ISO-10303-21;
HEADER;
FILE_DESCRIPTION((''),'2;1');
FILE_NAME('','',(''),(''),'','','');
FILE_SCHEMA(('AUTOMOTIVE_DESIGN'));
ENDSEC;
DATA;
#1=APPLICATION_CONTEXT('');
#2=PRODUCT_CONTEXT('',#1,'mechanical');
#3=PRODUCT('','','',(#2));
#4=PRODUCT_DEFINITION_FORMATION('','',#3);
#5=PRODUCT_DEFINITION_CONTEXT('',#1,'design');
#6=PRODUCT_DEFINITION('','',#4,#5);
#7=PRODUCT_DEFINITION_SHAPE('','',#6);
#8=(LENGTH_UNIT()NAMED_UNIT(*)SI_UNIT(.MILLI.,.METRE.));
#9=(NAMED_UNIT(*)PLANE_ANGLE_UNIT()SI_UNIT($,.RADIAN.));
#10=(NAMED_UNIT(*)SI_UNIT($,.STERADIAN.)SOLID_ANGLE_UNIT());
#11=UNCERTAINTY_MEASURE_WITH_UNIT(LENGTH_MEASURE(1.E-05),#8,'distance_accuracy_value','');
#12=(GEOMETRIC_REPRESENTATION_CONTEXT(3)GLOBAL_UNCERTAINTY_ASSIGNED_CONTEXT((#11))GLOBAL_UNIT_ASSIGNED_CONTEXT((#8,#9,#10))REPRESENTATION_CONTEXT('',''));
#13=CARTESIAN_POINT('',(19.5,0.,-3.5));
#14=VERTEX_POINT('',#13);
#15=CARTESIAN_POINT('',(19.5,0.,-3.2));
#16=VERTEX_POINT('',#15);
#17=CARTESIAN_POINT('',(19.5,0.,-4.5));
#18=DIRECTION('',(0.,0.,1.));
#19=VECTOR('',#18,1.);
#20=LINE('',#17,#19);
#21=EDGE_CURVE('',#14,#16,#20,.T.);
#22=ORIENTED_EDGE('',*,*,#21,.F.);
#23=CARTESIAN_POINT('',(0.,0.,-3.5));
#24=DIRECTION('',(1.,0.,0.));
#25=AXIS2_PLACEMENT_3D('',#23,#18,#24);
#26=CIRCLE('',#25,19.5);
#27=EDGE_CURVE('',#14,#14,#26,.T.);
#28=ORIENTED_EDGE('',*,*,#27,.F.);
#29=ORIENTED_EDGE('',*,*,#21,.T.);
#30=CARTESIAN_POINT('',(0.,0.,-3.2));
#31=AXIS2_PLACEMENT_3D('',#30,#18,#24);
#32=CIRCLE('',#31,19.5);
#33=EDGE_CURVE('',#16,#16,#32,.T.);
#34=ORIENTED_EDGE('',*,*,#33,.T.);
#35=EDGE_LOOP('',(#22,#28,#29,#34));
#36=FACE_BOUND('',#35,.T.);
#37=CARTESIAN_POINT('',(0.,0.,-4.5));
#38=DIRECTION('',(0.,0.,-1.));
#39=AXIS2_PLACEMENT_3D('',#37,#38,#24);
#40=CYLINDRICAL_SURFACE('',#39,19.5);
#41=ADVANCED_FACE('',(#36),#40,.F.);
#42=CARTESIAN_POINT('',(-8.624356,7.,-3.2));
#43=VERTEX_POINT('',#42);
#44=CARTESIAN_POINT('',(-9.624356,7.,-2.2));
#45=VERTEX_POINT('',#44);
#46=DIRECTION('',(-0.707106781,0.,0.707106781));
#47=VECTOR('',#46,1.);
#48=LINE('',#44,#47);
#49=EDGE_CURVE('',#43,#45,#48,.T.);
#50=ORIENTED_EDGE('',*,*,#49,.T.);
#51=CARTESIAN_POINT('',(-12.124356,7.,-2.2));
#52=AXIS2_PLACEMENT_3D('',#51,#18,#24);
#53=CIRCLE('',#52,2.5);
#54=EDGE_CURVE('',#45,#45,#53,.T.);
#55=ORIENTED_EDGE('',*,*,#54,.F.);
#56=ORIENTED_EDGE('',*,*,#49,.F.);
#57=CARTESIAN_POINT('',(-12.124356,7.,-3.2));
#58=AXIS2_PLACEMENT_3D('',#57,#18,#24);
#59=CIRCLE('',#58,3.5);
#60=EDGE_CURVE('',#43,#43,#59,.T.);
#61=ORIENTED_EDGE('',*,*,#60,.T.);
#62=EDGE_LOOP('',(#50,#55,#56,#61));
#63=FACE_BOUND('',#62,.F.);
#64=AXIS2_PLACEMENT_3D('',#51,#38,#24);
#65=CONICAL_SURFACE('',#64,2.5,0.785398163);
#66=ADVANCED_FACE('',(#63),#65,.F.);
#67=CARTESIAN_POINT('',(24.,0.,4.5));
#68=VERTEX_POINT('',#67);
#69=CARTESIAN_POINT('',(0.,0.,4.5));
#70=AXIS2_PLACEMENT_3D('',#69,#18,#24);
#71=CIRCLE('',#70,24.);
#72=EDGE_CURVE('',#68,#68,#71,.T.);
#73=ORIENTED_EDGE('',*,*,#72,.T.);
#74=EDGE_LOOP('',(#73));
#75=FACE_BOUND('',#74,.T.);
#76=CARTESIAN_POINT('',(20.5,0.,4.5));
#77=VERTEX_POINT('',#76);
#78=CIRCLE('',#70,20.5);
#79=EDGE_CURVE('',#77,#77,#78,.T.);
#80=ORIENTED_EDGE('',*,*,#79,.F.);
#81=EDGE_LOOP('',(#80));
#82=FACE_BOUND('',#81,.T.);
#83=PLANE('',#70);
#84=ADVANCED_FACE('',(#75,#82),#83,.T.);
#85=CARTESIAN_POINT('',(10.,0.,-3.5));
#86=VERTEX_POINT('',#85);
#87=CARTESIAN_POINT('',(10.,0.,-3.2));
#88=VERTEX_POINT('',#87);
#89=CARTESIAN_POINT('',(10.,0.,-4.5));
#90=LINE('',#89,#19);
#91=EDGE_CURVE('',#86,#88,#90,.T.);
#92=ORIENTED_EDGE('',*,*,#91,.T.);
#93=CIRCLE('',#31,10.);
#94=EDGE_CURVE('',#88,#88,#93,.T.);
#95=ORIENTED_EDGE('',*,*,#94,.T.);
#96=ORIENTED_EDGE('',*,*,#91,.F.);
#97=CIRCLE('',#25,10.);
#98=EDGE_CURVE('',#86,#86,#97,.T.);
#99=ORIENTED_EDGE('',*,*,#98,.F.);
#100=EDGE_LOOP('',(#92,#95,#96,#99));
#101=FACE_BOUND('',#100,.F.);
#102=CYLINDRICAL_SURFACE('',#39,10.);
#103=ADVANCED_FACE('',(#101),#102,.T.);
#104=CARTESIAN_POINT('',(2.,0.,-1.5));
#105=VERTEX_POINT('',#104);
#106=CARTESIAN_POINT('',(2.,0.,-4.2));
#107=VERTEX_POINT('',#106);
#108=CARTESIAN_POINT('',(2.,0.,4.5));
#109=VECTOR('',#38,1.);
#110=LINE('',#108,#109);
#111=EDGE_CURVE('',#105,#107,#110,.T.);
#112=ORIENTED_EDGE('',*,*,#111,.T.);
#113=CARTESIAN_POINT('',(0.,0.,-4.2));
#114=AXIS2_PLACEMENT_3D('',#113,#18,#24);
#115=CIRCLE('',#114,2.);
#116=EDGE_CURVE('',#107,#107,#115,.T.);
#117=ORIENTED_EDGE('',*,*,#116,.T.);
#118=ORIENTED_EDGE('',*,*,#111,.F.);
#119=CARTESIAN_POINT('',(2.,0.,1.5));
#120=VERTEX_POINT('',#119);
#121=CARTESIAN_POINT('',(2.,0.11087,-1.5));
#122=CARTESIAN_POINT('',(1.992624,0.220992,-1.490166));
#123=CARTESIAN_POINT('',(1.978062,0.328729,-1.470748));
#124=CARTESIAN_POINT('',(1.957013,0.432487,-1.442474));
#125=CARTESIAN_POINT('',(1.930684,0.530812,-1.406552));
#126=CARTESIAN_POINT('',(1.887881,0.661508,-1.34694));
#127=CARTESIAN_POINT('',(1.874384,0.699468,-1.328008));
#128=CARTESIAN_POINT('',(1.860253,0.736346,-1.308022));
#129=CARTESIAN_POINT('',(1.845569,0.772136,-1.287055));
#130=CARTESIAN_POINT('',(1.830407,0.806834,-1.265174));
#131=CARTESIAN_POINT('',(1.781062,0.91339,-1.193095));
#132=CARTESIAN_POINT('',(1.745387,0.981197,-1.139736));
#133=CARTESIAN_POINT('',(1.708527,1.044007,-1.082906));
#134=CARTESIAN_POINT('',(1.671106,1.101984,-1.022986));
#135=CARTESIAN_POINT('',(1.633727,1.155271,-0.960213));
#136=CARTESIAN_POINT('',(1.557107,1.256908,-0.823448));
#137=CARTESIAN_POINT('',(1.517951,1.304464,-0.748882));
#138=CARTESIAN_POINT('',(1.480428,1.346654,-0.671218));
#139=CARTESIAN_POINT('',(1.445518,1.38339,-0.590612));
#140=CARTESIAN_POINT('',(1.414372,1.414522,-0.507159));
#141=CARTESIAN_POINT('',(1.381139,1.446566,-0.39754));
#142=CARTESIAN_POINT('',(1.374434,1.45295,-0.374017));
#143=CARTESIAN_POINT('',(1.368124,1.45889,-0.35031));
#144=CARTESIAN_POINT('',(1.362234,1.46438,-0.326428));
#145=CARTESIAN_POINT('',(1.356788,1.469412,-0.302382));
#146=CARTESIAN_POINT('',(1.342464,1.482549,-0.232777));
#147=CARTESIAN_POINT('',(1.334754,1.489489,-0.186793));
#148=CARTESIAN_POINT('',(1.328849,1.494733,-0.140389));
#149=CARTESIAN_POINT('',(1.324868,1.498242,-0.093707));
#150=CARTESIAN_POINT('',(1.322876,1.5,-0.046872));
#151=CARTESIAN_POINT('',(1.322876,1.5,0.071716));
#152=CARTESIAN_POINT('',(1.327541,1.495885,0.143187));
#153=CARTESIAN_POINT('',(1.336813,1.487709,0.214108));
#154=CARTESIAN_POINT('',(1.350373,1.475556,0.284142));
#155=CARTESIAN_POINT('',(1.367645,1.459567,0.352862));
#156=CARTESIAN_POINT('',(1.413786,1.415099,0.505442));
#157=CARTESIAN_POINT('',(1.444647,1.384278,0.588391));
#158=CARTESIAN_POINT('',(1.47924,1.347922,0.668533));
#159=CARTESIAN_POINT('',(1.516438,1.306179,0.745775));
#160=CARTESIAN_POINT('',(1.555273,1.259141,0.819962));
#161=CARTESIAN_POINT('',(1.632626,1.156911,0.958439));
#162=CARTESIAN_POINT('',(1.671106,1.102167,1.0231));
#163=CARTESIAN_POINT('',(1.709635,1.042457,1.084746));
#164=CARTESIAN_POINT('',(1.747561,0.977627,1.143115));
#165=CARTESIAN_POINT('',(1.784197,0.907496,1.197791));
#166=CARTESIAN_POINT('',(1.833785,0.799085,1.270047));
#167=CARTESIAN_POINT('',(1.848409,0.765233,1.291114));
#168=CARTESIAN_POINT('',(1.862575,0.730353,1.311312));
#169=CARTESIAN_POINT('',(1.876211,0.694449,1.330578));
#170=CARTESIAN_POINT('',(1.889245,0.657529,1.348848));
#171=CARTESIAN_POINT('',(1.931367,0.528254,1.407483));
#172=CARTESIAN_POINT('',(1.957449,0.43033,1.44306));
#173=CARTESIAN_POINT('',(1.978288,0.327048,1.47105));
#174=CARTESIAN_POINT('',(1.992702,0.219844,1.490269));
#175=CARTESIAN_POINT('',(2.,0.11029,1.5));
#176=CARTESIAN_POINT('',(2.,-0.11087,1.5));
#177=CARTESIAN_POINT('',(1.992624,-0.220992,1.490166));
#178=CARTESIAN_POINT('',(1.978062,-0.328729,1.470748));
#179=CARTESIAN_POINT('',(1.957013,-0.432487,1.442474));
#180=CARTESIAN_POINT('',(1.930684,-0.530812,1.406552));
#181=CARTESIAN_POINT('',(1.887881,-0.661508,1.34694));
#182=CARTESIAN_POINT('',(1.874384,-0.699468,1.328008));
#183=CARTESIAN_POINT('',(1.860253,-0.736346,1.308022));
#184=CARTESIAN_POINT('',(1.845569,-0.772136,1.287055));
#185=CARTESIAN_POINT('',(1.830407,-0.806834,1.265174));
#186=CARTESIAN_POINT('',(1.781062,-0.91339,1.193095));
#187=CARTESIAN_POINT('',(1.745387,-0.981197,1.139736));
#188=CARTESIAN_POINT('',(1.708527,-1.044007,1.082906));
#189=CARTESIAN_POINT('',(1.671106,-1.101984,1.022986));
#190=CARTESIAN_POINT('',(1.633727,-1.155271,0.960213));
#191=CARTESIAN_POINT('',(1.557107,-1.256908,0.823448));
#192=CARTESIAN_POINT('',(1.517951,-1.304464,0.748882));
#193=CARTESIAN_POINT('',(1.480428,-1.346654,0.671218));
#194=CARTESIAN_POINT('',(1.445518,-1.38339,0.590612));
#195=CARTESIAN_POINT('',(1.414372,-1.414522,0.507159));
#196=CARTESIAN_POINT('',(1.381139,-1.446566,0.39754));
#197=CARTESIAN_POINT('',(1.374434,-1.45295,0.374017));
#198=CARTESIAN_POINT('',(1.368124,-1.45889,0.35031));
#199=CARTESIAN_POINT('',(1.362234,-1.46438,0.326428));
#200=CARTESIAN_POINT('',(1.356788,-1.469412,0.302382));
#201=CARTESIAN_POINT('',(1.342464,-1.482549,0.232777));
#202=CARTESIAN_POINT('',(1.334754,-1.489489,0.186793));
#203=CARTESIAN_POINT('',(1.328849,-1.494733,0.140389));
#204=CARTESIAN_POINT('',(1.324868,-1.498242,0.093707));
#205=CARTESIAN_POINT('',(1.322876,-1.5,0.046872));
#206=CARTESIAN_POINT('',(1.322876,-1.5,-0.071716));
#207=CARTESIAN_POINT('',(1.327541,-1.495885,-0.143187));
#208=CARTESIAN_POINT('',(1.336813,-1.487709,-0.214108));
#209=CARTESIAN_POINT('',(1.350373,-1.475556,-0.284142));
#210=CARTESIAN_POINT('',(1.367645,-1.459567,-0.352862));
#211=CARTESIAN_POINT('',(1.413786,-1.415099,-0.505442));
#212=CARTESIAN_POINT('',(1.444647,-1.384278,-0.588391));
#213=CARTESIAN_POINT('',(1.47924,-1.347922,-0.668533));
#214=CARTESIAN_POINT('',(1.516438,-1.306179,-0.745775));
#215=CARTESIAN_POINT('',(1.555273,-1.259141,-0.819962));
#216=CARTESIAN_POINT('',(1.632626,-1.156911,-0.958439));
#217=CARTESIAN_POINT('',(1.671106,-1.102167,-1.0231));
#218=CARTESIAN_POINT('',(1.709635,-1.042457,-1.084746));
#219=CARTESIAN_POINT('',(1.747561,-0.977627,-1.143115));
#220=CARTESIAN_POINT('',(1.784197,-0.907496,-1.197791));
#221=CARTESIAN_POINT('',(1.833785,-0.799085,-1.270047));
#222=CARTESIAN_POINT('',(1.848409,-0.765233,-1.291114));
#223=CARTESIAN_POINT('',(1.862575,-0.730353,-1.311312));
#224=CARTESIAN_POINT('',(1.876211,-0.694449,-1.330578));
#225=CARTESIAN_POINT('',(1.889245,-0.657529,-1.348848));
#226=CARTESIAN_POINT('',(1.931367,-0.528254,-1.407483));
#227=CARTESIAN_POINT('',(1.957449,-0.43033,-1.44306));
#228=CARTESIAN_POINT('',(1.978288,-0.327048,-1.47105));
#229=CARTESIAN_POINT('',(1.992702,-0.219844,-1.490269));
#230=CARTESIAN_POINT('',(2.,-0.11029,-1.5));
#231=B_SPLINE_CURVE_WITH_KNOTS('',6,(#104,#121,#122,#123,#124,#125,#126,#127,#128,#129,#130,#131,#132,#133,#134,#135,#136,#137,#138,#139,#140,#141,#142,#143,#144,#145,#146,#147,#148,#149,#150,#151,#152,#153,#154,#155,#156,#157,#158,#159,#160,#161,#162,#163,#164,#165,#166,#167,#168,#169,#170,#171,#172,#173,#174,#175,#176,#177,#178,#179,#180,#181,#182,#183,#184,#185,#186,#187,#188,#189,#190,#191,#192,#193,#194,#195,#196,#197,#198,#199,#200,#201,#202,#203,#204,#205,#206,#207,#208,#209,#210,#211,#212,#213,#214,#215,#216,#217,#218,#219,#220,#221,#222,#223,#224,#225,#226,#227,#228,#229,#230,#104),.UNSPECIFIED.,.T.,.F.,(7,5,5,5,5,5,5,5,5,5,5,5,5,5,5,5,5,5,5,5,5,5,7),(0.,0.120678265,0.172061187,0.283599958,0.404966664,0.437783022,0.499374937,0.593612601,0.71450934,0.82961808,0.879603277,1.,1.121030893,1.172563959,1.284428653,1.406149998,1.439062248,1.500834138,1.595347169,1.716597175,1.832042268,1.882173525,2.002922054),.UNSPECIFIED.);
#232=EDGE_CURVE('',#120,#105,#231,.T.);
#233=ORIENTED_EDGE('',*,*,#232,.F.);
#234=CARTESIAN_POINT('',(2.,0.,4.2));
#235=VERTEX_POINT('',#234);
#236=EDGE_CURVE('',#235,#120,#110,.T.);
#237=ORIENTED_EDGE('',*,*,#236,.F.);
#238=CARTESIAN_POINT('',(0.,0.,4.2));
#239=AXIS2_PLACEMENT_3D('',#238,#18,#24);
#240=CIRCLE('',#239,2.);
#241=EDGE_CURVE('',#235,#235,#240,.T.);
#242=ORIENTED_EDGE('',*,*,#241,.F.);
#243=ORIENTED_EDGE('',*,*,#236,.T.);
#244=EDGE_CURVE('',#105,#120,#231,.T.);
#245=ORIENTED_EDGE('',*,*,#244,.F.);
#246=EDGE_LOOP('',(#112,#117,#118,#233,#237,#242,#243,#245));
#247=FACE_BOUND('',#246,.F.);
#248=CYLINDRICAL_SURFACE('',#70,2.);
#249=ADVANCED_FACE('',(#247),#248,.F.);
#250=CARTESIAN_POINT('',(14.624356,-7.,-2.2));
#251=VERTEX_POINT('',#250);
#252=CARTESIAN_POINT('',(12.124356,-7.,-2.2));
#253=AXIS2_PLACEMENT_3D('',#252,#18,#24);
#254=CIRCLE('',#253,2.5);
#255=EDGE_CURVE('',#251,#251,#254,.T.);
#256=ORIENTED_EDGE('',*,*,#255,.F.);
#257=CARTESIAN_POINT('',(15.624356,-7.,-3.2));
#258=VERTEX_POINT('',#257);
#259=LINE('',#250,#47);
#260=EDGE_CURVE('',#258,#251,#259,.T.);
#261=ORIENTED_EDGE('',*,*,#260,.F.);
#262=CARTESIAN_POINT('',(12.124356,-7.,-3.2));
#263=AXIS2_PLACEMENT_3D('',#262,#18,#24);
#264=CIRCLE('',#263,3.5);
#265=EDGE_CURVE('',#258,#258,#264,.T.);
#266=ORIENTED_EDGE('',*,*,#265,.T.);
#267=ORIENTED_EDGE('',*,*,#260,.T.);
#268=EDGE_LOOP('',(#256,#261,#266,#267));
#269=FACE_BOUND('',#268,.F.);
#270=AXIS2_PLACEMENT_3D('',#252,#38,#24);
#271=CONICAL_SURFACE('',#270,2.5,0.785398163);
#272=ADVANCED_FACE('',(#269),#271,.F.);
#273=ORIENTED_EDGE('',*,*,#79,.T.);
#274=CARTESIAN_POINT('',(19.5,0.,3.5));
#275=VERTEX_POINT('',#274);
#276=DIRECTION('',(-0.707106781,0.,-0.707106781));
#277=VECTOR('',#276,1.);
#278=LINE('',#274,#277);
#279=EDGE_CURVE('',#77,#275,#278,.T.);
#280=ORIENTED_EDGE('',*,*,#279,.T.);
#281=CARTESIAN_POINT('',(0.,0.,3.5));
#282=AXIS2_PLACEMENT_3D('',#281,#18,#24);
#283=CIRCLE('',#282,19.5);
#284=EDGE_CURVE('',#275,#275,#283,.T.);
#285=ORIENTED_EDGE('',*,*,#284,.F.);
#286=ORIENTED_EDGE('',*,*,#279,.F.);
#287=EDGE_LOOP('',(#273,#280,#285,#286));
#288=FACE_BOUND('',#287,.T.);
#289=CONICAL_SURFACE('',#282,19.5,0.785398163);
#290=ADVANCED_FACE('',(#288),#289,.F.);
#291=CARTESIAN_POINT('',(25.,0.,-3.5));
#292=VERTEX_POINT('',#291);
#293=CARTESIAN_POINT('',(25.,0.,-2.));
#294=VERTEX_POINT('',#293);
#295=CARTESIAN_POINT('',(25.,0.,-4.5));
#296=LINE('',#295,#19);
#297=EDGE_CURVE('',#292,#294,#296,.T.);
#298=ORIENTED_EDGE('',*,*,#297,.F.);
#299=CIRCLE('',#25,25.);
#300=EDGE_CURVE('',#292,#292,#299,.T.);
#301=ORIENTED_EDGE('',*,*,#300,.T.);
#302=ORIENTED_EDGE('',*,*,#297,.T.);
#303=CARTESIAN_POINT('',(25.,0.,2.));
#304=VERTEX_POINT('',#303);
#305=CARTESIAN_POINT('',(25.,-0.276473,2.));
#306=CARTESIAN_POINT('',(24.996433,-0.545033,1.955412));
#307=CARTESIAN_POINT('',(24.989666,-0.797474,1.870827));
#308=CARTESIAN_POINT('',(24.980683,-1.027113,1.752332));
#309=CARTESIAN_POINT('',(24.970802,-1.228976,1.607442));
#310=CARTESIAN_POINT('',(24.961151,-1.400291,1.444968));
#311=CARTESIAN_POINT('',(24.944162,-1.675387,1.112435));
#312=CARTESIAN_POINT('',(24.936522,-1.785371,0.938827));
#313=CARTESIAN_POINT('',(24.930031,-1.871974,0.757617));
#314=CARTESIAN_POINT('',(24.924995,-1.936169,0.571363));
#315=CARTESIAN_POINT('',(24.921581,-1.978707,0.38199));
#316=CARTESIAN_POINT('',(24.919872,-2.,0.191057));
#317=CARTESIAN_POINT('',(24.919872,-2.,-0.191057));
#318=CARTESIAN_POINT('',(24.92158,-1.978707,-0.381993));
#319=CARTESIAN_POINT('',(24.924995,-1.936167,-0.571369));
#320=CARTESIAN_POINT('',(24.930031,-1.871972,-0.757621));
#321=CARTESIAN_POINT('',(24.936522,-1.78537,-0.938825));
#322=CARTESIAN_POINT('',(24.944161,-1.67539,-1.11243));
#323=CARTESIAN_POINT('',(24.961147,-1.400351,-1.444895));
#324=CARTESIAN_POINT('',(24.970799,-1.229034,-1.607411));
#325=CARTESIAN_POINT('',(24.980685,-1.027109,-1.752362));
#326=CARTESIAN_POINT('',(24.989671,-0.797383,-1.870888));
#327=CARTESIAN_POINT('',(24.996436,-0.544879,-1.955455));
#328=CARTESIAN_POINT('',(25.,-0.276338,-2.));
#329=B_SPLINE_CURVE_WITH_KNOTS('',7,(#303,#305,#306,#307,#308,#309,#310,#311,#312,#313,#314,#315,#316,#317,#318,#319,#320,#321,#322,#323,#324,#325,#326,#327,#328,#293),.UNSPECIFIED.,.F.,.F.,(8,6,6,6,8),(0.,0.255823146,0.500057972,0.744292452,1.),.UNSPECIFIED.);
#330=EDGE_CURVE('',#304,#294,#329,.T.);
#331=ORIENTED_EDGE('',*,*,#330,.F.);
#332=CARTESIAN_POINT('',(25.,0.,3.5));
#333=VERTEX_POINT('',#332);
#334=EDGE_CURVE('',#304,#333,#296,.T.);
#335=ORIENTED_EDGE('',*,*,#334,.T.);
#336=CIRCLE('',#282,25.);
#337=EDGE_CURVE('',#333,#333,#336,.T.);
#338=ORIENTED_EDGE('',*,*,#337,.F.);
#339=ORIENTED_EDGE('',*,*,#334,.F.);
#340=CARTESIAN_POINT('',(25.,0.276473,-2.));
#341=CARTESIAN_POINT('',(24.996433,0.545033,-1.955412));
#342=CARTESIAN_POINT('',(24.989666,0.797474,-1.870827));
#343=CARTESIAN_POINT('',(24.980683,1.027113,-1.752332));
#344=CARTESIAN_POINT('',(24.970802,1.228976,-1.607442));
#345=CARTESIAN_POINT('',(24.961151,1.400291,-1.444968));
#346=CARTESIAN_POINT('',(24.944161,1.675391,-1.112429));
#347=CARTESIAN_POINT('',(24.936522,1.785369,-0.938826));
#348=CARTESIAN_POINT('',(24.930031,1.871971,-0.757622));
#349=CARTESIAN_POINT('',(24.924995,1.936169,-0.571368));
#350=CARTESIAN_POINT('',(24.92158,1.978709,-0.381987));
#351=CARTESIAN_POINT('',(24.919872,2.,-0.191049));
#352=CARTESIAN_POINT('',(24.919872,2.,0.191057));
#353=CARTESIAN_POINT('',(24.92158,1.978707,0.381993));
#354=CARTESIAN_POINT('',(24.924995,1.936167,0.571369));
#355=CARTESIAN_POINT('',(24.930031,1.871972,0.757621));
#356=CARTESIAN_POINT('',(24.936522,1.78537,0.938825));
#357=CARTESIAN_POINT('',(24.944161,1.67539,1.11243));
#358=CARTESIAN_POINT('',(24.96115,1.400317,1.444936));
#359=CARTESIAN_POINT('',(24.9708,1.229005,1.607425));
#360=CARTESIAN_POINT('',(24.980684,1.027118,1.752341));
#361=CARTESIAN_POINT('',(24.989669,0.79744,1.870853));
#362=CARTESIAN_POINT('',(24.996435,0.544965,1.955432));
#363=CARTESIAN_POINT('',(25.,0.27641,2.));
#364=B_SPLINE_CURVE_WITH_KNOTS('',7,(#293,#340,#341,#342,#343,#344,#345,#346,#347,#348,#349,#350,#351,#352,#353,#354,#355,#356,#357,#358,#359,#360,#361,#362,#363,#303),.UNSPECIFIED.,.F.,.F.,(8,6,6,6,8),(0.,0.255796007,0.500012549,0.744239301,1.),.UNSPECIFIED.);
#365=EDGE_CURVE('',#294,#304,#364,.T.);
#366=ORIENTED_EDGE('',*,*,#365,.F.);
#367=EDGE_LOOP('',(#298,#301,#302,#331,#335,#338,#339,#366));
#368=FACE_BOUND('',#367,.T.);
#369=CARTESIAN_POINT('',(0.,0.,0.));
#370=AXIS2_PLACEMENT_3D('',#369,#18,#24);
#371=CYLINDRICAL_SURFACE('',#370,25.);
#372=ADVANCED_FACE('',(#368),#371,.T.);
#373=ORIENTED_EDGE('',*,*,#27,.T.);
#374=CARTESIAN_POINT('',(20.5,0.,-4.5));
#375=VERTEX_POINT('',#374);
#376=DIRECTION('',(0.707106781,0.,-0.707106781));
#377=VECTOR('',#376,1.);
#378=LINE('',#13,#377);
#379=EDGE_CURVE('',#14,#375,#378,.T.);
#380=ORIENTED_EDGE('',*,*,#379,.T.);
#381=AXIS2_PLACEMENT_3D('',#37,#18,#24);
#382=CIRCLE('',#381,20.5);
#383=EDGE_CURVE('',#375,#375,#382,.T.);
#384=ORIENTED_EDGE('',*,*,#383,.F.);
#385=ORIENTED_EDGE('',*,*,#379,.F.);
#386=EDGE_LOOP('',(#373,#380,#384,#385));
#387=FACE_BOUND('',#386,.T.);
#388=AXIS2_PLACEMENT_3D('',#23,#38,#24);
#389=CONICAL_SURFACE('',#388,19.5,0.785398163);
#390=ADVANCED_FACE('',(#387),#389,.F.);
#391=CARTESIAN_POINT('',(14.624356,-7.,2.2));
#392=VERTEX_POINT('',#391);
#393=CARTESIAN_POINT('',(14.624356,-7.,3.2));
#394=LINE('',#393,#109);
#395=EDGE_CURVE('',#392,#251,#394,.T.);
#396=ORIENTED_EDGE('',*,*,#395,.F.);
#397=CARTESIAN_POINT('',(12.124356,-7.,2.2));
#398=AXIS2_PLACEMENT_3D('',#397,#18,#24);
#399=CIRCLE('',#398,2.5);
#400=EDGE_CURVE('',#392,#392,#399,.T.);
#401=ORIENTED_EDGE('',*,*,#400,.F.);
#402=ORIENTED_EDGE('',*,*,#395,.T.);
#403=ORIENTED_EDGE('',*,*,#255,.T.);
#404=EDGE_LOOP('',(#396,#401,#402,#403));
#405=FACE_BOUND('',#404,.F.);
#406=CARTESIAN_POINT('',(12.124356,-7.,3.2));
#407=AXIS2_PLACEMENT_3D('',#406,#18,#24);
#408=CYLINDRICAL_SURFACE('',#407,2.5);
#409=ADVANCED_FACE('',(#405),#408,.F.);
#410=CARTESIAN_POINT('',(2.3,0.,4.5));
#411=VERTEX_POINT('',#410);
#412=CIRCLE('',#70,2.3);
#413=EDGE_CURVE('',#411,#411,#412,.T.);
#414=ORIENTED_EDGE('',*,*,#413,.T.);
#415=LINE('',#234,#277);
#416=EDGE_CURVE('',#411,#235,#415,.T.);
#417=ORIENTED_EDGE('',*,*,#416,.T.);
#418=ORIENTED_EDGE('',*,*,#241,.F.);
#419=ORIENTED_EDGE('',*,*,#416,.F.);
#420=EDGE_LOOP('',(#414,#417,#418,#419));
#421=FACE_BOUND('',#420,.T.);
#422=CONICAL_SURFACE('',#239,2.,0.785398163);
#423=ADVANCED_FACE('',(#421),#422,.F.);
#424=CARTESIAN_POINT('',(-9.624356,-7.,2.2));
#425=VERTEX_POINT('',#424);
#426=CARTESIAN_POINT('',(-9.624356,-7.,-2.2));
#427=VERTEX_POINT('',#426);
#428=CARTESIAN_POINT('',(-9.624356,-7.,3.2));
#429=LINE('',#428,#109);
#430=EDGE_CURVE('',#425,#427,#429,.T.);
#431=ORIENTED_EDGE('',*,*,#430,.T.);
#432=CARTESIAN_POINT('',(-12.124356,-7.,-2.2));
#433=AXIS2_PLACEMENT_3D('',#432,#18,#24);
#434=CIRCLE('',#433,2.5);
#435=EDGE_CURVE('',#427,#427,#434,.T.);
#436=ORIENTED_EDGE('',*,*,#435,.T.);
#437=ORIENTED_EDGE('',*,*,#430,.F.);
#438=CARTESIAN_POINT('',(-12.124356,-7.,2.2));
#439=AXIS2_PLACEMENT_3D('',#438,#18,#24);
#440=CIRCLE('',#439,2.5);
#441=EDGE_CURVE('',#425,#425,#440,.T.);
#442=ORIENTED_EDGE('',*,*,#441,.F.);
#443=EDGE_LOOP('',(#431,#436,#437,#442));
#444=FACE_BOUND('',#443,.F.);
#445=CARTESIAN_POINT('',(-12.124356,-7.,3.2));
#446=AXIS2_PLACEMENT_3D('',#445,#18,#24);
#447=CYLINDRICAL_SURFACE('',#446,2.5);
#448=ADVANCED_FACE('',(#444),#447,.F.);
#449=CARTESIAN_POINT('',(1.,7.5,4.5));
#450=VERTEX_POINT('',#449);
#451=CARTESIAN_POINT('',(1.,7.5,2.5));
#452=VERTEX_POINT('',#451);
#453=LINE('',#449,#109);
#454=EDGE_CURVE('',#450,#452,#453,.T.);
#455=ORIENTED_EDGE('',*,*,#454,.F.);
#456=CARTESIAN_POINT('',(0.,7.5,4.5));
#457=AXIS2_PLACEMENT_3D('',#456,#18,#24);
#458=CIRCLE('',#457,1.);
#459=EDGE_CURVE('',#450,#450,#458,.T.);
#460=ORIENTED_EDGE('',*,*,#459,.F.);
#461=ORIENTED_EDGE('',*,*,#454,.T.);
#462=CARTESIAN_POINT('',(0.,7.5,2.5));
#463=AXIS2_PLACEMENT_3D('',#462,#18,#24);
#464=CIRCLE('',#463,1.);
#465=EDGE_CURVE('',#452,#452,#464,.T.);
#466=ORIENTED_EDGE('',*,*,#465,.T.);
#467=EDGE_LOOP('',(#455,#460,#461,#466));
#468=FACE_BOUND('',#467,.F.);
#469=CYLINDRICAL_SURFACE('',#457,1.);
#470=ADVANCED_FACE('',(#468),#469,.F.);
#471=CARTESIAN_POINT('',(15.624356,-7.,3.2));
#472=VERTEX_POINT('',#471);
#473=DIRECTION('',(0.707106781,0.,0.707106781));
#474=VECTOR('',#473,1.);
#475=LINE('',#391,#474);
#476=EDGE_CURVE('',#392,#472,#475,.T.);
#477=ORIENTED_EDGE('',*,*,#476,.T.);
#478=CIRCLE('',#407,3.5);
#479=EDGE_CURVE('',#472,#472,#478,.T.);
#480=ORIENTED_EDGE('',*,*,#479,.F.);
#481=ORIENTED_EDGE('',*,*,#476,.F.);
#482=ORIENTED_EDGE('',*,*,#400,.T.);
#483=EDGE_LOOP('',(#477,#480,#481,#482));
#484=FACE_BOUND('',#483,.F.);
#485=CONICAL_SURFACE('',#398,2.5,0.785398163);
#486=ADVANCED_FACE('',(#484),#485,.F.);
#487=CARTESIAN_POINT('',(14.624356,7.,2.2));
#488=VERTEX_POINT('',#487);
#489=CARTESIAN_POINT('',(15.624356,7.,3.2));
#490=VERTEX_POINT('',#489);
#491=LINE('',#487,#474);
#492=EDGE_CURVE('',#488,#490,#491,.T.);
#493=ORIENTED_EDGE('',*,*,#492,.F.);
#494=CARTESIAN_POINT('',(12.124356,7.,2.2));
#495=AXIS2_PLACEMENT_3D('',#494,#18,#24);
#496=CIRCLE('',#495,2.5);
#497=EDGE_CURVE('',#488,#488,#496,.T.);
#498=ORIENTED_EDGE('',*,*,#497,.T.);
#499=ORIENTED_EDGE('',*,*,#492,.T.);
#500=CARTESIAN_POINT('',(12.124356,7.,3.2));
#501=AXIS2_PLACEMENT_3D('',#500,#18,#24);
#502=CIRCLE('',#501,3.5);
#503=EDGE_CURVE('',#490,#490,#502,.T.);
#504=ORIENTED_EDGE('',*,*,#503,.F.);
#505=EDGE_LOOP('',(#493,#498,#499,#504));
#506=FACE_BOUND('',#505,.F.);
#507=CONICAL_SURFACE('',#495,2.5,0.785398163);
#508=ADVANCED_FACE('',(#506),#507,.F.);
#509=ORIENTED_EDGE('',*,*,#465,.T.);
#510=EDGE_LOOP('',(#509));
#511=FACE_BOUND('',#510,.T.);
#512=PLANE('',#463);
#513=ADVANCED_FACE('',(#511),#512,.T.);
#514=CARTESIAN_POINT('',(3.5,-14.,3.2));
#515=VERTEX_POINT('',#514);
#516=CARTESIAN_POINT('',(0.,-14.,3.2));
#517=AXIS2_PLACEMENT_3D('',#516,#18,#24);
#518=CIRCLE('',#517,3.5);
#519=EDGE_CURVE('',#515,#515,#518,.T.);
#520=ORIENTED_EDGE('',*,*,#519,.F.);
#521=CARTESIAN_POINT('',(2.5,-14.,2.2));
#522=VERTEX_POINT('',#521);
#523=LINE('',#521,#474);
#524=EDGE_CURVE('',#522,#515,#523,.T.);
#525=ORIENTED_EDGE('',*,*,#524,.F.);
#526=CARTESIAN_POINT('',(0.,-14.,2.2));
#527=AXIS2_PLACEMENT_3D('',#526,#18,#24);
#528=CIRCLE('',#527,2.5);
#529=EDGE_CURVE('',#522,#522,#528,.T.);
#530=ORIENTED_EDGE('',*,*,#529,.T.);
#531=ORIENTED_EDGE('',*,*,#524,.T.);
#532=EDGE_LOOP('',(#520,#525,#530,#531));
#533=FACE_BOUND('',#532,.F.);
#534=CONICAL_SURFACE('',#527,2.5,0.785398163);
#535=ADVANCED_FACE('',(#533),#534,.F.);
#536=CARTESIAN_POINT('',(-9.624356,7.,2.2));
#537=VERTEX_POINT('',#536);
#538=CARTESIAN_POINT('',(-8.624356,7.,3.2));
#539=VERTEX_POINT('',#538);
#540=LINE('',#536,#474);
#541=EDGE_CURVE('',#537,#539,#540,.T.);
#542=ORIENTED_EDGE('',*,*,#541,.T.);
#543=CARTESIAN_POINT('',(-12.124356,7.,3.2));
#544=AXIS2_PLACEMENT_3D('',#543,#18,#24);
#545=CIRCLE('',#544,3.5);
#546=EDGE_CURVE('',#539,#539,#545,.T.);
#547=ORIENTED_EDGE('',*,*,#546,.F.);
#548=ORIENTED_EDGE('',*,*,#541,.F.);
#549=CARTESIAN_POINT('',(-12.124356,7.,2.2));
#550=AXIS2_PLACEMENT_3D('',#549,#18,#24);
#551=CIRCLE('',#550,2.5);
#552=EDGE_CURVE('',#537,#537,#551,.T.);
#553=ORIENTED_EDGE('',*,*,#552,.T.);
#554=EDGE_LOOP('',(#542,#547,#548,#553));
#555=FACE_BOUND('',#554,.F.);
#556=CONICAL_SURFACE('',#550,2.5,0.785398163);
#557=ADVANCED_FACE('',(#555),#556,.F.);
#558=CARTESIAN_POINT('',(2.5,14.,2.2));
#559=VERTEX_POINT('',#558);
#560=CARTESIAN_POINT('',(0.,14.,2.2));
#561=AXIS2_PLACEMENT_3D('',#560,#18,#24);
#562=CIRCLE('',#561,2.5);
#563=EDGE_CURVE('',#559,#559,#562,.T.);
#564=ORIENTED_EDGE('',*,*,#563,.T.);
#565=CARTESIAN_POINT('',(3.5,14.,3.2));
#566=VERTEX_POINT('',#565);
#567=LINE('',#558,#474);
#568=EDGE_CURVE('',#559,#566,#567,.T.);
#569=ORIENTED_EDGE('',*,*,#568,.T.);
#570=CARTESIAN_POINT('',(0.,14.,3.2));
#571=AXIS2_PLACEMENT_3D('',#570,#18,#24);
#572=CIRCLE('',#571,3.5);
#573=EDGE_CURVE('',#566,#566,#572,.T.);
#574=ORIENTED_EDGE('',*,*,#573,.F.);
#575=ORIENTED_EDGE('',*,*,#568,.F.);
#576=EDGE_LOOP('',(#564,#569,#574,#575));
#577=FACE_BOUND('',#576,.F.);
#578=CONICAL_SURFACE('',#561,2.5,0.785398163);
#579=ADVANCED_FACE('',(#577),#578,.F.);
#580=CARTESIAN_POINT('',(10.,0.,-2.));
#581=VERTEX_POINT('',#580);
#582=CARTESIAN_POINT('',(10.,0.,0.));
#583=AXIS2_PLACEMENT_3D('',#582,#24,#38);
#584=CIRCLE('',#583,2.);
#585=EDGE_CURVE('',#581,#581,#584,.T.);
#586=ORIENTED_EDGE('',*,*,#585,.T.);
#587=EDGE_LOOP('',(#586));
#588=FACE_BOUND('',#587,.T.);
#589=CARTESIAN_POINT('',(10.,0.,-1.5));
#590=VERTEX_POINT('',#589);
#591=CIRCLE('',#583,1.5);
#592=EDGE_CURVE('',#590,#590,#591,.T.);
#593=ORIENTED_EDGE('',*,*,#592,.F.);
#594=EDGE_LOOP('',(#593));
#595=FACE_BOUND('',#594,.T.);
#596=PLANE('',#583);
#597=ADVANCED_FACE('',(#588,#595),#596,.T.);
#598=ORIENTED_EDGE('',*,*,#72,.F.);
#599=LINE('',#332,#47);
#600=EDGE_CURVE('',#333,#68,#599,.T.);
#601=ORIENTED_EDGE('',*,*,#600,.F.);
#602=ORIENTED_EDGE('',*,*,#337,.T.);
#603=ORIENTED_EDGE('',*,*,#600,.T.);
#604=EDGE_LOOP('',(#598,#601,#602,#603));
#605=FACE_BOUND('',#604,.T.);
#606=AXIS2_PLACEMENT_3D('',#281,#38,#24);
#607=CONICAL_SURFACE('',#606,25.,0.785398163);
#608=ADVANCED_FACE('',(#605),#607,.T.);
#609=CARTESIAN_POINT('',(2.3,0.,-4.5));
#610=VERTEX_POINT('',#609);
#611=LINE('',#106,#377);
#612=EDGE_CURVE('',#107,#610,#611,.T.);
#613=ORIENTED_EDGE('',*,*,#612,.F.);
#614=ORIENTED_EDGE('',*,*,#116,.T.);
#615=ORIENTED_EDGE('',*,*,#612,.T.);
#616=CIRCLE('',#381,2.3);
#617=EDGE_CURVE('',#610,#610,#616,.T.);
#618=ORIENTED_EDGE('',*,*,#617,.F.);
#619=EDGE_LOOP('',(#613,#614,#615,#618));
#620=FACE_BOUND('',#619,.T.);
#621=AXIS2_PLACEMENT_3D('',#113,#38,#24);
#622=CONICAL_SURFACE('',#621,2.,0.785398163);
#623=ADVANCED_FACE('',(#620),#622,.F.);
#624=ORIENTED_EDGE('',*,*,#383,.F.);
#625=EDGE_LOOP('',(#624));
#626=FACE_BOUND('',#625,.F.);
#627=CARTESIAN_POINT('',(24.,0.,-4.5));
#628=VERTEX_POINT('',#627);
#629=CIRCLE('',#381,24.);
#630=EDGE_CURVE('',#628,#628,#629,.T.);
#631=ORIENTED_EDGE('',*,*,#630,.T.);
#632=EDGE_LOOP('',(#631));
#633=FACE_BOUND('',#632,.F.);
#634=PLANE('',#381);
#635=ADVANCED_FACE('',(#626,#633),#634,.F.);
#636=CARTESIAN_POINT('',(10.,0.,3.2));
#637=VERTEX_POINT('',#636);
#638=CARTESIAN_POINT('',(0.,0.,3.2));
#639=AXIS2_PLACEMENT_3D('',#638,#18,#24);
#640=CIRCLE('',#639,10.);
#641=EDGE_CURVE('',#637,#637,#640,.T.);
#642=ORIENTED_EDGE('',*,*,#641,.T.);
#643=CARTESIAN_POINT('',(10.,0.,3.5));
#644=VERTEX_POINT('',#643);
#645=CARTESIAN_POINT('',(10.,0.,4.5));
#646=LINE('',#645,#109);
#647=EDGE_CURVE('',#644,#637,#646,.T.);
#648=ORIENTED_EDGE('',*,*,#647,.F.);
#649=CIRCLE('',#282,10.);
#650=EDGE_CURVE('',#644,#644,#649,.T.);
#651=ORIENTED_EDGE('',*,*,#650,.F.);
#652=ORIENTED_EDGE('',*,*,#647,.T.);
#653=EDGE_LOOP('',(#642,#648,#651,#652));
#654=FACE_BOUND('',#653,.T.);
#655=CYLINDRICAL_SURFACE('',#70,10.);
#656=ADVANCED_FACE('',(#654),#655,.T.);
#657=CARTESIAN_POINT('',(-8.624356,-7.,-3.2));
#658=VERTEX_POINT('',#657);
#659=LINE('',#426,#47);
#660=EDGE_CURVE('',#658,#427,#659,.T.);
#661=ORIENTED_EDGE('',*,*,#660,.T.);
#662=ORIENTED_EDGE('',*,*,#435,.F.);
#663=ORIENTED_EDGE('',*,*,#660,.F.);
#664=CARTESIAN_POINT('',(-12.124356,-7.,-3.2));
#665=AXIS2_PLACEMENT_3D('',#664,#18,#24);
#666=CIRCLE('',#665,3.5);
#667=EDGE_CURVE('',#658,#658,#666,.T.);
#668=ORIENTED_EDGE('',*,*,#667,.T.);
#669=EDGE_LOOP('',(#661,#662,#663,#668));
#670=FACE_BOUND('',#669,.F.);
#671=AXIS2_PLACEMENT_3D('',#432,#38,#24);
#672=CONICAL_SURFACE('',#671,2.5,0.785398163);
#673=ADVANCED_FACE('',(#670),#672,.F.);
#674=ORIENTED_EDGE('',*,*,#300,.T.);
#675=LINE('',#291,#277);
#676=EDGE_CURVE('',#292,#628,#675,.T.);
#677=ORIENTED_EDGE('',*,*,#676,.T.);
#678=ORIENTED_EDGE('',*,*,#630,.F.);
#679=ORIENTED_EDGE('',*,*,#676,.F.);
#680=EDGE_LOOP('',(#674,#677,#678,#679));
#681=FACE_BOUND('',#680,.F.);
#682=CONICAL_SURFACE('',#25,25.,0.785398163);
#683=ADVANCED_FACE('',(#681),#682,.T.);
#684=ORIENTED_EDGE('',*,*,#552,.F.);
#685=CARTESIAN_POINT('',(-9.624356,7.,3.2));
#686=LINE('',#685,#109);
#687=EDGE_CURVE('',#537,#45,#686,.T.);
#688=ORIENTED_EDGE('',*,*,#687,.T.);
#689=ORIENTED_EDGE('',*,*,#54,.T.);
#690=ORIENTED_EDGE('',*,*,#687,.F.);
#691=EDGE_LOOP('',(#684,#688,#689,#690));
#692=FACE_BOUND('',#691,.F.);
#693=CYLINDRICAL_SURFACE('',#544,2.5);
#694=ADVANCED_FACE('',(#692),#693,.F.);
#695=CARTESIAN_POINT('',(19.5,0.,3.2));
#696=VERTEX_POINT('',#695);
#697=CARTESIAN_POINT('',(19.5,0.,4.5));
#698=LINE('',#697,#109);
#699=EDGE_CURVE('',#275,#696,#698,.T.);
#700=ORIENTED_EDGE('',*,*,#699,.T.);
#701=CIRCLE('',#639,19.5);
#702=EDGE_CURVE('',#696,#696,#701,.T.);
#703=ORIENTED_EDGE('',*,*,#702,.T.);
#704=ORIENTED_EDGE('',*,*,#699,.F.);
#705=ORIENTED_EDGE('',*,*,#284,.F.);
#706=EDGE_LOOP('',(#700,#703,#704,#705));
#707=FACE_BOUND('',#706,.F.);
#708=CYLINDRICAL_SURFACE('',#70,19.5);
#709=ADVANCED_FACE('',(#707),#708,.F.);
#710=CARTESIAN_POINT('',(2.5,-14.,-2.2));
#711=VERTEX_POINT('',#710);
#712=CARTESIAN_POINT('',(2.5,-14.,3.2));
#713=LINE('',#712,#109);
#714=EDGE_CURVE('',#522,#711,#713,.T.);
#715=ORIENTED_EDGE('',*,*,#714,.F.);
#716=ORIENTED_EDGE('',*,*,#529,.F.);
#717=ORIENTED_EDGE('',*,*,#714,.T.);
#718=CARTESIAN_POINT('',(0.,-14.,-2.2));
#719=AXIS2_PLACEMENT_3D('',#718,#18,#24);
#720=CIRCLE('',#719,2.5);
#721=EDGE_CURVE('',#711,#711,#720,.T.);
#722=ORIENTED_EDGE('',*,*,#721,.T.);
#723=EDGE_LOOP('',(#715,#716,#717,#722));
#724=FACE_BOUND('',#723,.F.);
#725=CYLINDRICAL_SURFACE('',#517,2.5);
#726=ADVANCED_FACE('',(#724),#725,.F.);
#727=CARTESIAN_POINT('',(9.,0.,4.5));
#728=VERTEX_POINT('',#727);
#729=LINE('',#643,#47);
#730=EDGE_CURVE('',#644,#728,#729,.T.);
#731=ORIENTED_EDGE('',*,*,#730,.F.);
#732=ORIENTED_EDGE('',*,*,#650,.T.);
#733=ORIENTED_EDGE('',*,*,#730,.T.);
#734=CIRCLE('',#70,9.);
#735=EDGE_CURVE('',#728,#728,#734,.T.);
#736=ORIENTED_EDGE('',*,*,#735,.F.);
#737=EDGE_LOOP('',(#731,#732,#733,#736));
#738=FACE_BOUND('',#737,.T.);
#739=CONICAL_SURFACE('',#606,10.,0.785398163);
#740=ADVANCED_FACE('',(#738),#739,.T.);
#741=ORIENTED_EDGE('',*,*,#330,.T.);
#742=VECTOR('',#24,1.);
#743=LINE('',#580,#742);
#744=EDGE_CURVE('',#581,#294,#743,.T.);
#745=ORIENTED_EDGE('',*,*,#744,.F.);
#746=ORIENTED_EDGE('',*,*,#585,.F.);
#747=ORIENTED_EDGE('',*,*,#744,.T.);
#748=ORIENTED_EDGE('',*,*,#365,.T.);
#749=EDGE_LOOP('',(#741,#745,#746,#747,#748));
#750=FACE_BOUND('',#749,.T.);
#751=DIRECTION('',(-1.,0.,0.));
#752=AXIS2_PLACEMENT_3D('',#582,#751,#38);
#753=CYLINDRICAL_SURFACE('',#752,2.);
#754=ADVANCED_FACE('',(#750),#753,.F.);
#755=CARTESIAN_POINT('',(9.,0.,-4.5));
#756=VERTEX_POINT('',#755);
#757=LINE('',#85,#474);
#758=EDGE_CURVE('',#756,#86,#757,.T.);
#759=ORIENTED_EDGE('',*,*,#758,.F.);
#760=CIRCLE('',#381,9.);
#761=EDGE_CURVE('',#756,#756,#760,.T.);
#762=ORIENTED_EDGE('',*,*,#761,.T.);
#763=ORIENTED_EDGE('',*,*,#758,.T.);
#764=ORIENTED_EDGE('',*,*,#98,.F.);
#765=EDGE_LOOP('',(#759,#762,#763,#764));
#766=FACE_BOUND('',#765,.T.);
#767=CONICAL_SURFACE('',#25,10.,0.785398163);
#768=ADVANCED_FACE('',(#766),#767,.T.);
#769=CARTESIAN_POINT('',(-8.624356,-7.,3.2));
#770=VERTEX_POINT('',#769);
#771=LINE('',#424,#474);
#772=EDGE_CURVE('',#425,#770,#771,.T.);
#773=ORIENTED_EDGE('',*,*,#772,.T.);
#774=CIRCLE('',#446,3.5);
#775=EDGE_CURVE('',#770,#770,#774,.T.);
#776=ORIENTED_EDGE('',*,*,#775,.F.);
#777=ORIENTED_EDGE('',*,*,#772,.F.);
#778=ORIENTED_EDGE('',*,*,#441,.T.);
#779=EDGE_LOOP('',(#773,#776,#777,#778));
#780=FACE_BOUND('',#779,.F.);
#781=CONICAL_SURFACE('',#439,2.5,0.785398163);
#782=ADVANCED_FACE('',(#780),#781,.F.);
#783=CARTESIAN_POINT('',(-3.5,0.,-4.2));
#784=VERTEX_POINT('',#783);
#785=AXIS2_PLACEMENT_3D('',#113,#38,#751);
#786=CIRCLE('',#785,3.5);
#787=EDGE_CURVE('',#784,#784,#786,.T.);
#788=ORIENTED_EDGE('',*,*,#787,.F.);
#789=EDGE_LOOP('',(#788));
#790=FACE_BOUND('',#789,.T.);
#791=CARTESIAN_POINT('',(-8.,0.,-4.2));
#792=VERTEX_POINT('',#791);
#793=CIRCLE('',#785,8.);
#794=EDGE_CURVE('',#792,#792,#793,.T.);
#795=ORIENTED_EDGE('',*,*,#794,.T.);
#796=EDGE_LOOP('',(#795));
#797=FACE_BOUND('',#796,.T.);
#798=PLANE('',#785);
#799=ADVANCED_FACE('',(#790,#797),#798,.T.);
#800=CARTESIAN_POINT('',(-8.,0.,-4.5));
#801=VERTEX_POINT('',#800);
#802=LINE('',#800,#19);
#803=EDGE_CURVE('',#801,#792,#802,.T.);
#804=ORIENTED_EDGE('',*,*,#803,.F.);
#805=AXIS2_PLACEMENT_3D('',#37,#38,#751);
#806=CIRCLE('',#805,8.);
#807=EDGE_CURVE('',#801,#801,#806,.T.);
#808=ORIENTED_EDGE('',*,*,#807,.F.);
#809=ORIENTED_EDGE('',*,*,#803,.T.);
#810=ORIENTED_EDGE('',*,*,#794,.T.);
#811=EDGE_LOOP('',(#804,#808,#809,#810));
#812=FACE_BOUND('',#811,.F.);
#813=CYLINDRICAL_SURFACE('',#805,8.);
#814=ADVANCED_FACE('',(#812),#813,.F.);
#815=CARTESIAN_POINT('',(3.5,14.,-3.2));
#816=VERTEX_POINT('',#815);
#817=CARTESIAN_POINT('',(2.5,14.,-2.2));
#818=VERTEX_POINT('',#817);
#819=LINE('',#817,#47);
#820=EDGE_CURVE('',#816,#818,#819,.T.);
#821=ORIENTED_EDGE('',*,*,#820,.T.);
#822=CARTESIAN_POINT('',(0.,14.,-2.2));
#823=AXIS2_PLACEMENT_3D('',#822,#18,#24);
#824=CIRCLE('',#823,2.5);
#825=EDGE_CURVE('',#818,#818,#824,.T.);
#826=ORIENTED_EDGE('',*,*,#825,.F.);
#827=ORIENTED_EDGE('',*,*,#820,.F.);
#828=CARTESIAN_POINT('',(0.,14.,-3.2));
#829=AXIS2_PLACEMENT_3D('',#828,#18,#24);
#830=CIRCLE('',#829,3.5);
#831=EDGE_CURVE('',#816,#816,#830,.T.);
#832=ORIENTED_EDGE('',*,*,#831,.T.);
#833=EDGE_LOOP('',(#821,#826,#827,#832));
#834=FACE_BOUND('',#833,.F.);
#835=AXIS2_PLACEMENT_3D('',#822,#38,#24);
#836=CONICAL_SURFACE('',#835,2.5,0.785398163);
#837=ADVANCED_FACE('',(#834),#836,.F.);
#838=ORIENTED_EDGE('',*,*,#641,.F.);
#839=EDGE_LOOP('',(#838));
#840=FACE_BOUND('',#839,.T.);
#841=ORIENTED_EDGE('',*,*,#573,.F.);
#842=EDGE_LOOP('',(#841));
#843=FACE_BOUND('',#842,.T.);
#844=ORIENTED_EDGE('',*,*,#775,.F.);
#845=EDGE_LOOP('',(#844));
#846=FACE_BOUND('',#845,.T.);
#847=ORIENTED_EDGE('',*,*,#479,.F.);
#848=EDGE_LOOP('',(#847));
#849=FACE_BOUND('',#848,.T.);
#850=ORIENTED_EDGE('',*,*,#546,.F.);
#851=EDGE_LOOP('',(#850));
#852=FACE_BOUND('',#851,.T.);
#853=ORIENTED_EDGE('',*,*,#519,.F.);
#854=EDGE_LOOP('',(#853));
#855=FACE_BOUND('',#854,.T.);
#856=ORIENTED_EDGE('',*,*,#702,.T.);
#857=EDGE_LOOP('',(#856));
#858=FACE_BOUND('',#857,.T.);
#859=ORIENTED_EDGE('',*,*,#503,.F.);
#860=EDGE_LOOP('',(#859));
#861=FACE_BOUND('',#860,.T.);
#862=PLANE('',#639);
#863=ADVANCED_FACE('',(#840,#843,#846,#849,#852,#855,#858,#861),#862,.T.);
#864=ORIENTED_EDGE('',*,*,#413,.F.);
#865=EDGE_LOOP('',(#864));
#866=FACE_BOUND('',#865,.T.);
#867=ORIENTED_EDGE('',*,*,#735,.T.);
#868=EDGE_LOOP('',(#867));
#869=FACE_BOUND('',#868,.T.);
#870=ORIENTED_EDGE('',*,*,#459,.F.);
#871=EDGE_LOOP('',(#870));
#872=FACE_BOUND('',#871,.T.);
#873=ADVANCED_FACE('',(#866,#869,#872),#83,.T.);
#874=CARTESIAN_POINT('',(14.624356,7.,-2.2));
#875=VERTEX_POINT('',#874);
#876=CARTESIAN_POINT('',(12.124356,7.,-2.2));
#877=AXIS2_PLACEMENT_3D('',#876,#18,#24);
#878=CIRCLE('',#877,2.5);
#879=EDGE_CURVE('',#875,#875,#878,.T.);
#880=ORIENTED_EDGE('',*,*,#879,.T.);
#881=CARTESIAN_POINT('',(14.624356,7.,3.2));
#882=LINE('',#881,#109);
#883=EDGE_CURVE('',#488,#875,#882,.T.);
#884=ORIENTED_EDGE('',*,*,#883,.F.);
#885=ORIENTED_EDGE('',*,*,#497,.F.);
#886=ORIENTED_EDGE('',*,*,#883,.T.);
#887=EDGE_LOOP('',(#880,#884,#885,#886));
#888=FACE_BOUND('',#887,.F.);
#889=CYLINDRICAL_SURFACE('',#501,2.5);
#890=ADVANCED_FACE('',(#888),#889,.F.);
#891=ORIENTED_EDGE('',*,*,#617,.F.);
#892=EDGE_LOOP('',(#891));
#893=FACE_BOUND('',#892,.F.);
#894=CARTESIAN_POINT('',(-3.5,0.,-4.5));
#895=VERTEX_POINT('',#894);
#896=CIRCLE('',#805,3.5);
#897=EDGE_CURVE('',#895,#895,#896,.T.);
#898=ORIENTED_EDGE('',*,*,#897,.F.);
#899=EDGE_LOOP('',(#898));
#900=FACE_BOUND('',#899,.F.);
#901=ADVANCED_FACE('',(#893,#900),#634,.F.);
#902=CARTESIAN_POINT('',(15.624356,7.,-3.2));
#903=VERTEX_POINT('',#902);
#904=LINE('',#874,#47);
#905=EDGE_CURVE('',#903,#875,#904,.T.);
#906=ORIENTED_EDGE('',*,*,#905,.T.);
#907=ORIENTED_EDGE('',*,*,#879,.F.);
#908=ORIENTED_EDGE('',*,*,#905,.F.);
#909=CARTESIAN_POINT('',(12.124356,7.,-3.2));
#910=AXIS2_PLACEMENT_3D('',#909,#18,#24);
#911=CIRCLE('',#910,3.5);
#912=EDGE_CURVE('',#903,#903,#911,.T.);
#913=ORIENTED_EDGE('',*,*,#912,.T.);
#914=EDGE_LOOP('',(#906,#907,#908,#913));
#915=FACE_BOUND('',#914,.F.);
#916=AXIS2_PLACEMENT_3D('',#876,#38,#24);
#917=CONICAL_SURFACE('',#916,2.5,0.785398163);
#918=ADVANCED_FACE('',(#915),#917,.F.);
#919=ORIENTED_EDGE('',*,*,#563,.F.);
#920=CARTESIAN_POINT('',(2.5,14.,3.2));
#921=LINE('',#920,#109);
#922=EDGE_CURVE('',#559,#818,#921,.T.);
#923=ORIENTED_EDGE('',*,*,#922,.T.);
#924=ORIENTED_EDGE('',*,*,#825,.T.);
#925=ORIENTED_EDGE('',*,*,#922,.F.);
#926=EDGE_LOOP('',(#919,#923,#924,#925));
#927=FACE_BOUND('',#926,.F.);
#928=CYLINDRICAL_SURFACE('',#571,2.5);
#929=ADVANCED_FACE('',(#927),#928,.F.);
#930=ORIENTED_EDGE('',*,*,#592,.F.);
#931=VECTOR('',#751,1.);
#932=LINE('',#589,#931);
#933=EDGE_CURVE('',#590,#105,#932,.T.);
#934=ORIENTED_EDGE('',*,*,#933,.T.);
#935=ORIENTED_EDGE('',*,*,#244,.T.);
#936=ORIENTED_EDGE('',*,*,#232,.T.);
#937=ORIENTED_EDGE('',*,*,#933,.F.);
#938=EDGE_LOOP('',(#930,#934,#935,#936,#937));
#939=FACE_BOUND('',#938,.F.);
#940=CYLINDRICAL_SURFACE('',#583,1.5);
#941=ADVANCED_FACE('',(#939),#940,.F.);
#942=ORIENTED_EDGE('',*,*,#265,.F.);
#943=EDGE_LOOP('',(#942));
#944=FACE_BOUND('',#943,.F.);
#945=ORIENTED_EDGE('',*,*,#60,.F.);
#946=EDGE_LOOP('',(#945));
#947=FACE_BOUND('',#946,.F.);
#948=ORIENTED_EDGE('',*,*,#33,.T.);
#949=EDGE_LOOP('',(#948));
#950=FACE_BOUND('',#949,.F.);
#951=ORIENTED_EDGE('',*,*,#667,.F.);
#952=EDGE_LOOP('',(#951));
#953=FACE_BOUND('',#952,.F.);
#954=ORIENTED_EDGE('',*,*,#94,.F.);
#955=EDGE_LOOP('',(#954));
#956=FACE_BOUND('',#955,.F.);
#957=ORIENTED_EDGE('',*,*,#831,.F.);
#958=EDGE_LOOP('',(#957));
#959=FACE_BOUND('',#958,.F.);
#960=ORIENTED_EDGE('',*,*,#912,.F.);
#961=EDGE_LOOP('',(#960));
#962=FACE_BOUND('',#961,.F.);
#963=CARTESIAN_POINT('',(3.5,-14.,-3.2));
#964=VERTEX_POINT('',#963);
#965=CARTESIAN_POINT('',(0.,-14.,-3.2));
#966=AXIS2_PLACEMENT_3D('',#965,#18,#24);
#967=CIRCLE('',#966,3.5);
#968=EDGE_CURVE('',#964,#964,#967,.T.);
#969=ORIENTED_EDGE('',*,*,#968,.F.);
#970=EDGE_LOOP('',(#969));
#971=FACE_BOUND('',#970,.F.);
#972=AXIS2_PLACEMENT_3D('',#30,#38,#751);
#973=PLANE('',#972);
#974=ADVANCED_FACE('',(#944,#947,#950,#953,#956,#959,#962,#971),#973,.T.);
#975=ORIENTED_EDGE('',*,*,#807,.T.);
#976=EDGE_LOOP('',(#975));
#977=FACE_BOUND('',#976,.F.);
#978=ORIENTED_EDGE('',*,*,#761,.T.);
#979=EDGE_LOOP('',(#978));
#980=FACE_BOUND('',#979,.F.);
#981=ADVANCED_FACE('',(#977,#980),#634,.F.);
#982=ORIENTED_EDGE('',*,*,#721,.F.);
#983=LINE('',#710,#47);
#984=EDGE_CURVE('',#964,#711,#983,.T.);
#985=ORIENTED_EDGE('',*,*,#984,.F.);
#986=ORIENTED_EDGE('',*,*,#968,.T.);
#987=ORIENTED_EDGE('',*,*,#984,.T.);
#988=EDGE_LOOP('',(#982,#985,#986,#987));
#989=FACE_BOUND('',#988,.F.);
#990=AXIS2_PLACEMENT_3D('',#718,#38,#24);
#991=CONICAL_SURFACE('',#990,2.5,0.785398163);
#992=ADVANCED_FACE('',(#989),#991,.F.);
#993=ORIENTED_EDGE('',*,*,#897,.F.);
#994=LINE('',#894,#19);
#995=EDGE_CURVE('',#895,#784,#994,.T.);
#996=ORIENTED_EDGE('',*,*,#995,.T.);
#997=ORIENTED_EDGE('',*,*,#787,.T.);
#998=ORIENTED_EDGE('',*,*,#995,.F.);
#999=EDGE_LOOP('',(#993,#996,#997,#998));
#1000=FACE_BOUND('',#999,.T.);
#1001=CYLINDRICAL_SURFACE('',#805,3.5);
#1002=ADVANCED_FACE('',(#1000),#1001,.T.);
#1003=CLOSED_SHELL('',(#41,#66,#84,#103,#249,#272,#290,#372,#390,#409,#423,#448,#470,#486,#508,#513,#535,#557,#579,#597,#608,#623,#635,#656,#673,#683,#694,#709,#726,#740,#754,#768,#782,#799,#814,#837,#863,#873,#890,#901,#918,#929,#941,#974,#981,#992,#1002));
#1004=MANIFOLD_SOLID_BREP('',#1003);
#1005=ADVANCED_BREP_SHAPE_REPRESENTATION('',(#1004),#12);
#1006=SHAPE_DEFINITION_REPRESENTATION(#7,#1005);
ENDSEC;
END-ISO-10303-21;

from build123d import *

# Parameters (mm, degrees)
SKETCH_1_R               = 25
EXTRUDE_1_DEPTH          = 4.5
SKETCH_2_R               = 2
CUT_EXTRUDE_1_DEPTH      = 37.482872694
CHAMFER_1_SIZE           = 1
SKETCH_3_R               = 19.5
SKETCH_3_R_2             = 10
CUT_EXTRUDE_2_DEPTH      = 1.3
CHAMFER_2_SIZE           = 1
CHAMFER_3_SIZE           = 1
SKETCH_4_R               = 1
CUT_EXTRUDE_3_DEPTH      = 2
CHAMFER_4_SIZE           = 0.3
CHAMFER_5_SIZE           = 1
SKETCH_5_R               = 8
SKETCH_5_R_2             = 3.5
CUT_EXTRUDE_4_DEPTH      = 0.3
SKETCH_6_R               = 2.5
CUT_EXTRUDE_5_DEPTH      = 37.184112536
CHAMFER_6_SIZE           = 1
CUT_EXTRUDE_START        = 10
SKETCH_7_R               = 2
CUT_EXTRUDE_6_DEPTH      = 20
CUT_EXTRUDE_7_REACH      = 45.246
CUT_EXTRUDE_7_END_RADIUS = 2
SKETCH_8_R               = 1.5


with BuildPart() as part:
    # 草图1 → 凸台-拉伸1 (new, symmetric)
    with BuildSketch(Plane.XY):
        Circle(SKETCH_1_R)
    extrude(amount=EXTRUDE_1_DEPTH, both=True)

    # 草图2 → 切除-拉伸1 (cut, through all)
    with BuildSketch(Plane.XY.offset(4.5)):
        Circle(SKETCH_2_R)
    extrude(amount=-CUT_EXTRUDE_1_DEPTH, mode=Mode.SUBTRACT)

    # 倒角1
    chamfer_1_edges = [part.edges().sort_by_distance(p)[0] for p in [
        (-25, 0, -4.5),
        (-25, 0, 4.5),
    ]]
    chamfer(chamfer_1_edges, length=CHAMFER_1_SIZE)

    # 草图3 → 切除-拉伸2 (cut)
    with BuildSketch(Plane.XY.offset(4.5)):
        Circle(SKETCH_3_R)
        Circle(SKETCH_3_R_2, mode=Mode.SUBTRACT)
    cut_extrude_2 = extrude(amount=-CUT_EXTRUDE_2_DEPTH, mode=Mode.SUBTRACT)

    # 倒角2
    chamfer_2_edges = [part.edges().sort_by_distance(p)[0] for p in [
        (-19.5, 0, 4.5),
    ]]
    chamfer(chamfer_2_edges, length=CHAMFER_2_SIZE)

    # 倒角3
    chamfer_3_edges = [part.edges().sort_by_distance(p)[0] for p in [
        (-10, 0, 4.5),
    ]]
    chamfer(chamfer_3_edges, length=CHAMFER_3_SIZE)

    # 草图4 → 切除-拉伸3 (cut)
    with BuildSketch(Plane.XY.offset(4.5)):
        with Locations((0, 7.5)):
            Circle(SKETCH_4_R)
    extrude(amount=-CUT_EXTRUDE_3_DEPTH, mode=Mode.SUBTRACT)

    # 倒角4
    chamfer_4_edges = [part.edges().sort_by_distance(p)[0] for p in [
        (-2, 0, -4.5),
        (-2, 0, 4.5),
    ]]
    chamfer(chamfer_4_edges, length=CHAMFER_4_SIZE)

    # 镜向3: 切除-拉伸2 across plane
    add(cut_extrude_2.mirror(Plane.XY), mode=Mode.SUBTRACT)

    # 倒角5
    chamfer_5_edges = [part.edges().sort_by_distance(p)[0] for p in [
        (-10, 0, -4.5),
        (-19.5, 0, -4.5),
    ]]
    chamfer(chamfer_5_edges, length=CHAMFER_5_SIZE)

    # 草图5 → 切除-拉伸4 (cut)
    with BuildSketch(Plane(origin=(0, 0, -4.5), x_dir=(-1, 0, 0), z_dir=(0, 0, -1))):
        Circle(SKETCH_5_R)
        Circle(SKETCH_5_R_2, mode=Mode.SUBTRACT)
    extrude(amount=-CUT_EXTRUDE_4_DEPTH, mode=Mode.SUBTRACT)

    # 草图6 → 切除-拉伸5 (cut, through all)
    with BuildSketch(Plane.XY.offset(3.2)):
        with Locations((0, 14)):
            Circle(SKETCH_6_R)
        with Locations((12.124355653, 7)):
            Circle(SKETCH_6_R)
        with Locations((12.124355653, -7)):
            Circle(SKETCH_6_R)
        with Locations((0, -14)):
            Circle(SKETCH_6_R)
        with Locations((-12.124355653, -7)):
            Circle(SKETCH_6_R)
        with Locations((-12.124355653, 7)):
            Circle(SKETCH_6_R)
    extrude(amount=-CUT_EXTRUDE_5_DEPTH, mode=Mode.SUBTRACT)

    # 倒角6
    chamfer_6_edges = [part.edges().sort_by_distance(p)[0] for p in [
        (-2.5, 14, -3.2),
        (-2.5, 14, 3.2),
        (-14.624355653, 7, -3.2),
        (-14.624355653, 7, 3.2),
        (-14.624355653, -7, -3.2),
        (-14.624355653, -7, 3.2),
        (-2.5, -14, -3.2),
        (-2.5, -14, 3.2),
        (9.624355653, -7, -3.2),
        (9.624355653, -7, 3.2),
        (9.624355653, 7, -3.2),
        (9.624355653, 7, 3.2),
    ]]
    chamfer(chamfer_6_edges, length=CHAMFER_6_SIZE)

    # 草图7 → 切除-拉伸6 (cut)
    with BuildSketch(Plane(origin=(0, 0, 0), x_dir=(0, 0, -1), z_dir=(1, 0, 0)).offset(CUT_EXTRUDE_START)):
        Circle(SKETCH_7_R)
    extrude(amount=CUT_EXTRUDE_6_DEPTH, mode=Mode.SUBTRACT)

    # 切除-拉伸7: up to this cylinder (the profile starts outside it)
    cut_extrude_7_end = Plane(origin=(0, 0, 0), z_dir=(0, 0, 1)) * Cylinder(CUT_EXTRUDE_7_END_RADIUS, 95.492, mode=Mode.PRIVATE)
    # 草图8 → 切除-拉伸7 (cut, up to the surface)
    with BuildSketch(Plane(origin=(10, 0, 0), x_dir=(0, 0, -1), z_dir=(1, 0, 0)), mode=Mode.PRIVATE) as cut_extrude_7_sk1:
        Circle(SKETCH_8_R)
    cut_extrude_7_tool1 = extrude(cut_extrude_7_sk1.sketch, amount=-CUT_EXTRUDE_7_REACH, mode=Mode.PRIVATE) - cut_extrude_7_end
    add(cut_extrude_7_tool1.solids().sort_by_distance((10, 0, 0))[0], mode=Mode.SUBTRACT)


solid = part.part
